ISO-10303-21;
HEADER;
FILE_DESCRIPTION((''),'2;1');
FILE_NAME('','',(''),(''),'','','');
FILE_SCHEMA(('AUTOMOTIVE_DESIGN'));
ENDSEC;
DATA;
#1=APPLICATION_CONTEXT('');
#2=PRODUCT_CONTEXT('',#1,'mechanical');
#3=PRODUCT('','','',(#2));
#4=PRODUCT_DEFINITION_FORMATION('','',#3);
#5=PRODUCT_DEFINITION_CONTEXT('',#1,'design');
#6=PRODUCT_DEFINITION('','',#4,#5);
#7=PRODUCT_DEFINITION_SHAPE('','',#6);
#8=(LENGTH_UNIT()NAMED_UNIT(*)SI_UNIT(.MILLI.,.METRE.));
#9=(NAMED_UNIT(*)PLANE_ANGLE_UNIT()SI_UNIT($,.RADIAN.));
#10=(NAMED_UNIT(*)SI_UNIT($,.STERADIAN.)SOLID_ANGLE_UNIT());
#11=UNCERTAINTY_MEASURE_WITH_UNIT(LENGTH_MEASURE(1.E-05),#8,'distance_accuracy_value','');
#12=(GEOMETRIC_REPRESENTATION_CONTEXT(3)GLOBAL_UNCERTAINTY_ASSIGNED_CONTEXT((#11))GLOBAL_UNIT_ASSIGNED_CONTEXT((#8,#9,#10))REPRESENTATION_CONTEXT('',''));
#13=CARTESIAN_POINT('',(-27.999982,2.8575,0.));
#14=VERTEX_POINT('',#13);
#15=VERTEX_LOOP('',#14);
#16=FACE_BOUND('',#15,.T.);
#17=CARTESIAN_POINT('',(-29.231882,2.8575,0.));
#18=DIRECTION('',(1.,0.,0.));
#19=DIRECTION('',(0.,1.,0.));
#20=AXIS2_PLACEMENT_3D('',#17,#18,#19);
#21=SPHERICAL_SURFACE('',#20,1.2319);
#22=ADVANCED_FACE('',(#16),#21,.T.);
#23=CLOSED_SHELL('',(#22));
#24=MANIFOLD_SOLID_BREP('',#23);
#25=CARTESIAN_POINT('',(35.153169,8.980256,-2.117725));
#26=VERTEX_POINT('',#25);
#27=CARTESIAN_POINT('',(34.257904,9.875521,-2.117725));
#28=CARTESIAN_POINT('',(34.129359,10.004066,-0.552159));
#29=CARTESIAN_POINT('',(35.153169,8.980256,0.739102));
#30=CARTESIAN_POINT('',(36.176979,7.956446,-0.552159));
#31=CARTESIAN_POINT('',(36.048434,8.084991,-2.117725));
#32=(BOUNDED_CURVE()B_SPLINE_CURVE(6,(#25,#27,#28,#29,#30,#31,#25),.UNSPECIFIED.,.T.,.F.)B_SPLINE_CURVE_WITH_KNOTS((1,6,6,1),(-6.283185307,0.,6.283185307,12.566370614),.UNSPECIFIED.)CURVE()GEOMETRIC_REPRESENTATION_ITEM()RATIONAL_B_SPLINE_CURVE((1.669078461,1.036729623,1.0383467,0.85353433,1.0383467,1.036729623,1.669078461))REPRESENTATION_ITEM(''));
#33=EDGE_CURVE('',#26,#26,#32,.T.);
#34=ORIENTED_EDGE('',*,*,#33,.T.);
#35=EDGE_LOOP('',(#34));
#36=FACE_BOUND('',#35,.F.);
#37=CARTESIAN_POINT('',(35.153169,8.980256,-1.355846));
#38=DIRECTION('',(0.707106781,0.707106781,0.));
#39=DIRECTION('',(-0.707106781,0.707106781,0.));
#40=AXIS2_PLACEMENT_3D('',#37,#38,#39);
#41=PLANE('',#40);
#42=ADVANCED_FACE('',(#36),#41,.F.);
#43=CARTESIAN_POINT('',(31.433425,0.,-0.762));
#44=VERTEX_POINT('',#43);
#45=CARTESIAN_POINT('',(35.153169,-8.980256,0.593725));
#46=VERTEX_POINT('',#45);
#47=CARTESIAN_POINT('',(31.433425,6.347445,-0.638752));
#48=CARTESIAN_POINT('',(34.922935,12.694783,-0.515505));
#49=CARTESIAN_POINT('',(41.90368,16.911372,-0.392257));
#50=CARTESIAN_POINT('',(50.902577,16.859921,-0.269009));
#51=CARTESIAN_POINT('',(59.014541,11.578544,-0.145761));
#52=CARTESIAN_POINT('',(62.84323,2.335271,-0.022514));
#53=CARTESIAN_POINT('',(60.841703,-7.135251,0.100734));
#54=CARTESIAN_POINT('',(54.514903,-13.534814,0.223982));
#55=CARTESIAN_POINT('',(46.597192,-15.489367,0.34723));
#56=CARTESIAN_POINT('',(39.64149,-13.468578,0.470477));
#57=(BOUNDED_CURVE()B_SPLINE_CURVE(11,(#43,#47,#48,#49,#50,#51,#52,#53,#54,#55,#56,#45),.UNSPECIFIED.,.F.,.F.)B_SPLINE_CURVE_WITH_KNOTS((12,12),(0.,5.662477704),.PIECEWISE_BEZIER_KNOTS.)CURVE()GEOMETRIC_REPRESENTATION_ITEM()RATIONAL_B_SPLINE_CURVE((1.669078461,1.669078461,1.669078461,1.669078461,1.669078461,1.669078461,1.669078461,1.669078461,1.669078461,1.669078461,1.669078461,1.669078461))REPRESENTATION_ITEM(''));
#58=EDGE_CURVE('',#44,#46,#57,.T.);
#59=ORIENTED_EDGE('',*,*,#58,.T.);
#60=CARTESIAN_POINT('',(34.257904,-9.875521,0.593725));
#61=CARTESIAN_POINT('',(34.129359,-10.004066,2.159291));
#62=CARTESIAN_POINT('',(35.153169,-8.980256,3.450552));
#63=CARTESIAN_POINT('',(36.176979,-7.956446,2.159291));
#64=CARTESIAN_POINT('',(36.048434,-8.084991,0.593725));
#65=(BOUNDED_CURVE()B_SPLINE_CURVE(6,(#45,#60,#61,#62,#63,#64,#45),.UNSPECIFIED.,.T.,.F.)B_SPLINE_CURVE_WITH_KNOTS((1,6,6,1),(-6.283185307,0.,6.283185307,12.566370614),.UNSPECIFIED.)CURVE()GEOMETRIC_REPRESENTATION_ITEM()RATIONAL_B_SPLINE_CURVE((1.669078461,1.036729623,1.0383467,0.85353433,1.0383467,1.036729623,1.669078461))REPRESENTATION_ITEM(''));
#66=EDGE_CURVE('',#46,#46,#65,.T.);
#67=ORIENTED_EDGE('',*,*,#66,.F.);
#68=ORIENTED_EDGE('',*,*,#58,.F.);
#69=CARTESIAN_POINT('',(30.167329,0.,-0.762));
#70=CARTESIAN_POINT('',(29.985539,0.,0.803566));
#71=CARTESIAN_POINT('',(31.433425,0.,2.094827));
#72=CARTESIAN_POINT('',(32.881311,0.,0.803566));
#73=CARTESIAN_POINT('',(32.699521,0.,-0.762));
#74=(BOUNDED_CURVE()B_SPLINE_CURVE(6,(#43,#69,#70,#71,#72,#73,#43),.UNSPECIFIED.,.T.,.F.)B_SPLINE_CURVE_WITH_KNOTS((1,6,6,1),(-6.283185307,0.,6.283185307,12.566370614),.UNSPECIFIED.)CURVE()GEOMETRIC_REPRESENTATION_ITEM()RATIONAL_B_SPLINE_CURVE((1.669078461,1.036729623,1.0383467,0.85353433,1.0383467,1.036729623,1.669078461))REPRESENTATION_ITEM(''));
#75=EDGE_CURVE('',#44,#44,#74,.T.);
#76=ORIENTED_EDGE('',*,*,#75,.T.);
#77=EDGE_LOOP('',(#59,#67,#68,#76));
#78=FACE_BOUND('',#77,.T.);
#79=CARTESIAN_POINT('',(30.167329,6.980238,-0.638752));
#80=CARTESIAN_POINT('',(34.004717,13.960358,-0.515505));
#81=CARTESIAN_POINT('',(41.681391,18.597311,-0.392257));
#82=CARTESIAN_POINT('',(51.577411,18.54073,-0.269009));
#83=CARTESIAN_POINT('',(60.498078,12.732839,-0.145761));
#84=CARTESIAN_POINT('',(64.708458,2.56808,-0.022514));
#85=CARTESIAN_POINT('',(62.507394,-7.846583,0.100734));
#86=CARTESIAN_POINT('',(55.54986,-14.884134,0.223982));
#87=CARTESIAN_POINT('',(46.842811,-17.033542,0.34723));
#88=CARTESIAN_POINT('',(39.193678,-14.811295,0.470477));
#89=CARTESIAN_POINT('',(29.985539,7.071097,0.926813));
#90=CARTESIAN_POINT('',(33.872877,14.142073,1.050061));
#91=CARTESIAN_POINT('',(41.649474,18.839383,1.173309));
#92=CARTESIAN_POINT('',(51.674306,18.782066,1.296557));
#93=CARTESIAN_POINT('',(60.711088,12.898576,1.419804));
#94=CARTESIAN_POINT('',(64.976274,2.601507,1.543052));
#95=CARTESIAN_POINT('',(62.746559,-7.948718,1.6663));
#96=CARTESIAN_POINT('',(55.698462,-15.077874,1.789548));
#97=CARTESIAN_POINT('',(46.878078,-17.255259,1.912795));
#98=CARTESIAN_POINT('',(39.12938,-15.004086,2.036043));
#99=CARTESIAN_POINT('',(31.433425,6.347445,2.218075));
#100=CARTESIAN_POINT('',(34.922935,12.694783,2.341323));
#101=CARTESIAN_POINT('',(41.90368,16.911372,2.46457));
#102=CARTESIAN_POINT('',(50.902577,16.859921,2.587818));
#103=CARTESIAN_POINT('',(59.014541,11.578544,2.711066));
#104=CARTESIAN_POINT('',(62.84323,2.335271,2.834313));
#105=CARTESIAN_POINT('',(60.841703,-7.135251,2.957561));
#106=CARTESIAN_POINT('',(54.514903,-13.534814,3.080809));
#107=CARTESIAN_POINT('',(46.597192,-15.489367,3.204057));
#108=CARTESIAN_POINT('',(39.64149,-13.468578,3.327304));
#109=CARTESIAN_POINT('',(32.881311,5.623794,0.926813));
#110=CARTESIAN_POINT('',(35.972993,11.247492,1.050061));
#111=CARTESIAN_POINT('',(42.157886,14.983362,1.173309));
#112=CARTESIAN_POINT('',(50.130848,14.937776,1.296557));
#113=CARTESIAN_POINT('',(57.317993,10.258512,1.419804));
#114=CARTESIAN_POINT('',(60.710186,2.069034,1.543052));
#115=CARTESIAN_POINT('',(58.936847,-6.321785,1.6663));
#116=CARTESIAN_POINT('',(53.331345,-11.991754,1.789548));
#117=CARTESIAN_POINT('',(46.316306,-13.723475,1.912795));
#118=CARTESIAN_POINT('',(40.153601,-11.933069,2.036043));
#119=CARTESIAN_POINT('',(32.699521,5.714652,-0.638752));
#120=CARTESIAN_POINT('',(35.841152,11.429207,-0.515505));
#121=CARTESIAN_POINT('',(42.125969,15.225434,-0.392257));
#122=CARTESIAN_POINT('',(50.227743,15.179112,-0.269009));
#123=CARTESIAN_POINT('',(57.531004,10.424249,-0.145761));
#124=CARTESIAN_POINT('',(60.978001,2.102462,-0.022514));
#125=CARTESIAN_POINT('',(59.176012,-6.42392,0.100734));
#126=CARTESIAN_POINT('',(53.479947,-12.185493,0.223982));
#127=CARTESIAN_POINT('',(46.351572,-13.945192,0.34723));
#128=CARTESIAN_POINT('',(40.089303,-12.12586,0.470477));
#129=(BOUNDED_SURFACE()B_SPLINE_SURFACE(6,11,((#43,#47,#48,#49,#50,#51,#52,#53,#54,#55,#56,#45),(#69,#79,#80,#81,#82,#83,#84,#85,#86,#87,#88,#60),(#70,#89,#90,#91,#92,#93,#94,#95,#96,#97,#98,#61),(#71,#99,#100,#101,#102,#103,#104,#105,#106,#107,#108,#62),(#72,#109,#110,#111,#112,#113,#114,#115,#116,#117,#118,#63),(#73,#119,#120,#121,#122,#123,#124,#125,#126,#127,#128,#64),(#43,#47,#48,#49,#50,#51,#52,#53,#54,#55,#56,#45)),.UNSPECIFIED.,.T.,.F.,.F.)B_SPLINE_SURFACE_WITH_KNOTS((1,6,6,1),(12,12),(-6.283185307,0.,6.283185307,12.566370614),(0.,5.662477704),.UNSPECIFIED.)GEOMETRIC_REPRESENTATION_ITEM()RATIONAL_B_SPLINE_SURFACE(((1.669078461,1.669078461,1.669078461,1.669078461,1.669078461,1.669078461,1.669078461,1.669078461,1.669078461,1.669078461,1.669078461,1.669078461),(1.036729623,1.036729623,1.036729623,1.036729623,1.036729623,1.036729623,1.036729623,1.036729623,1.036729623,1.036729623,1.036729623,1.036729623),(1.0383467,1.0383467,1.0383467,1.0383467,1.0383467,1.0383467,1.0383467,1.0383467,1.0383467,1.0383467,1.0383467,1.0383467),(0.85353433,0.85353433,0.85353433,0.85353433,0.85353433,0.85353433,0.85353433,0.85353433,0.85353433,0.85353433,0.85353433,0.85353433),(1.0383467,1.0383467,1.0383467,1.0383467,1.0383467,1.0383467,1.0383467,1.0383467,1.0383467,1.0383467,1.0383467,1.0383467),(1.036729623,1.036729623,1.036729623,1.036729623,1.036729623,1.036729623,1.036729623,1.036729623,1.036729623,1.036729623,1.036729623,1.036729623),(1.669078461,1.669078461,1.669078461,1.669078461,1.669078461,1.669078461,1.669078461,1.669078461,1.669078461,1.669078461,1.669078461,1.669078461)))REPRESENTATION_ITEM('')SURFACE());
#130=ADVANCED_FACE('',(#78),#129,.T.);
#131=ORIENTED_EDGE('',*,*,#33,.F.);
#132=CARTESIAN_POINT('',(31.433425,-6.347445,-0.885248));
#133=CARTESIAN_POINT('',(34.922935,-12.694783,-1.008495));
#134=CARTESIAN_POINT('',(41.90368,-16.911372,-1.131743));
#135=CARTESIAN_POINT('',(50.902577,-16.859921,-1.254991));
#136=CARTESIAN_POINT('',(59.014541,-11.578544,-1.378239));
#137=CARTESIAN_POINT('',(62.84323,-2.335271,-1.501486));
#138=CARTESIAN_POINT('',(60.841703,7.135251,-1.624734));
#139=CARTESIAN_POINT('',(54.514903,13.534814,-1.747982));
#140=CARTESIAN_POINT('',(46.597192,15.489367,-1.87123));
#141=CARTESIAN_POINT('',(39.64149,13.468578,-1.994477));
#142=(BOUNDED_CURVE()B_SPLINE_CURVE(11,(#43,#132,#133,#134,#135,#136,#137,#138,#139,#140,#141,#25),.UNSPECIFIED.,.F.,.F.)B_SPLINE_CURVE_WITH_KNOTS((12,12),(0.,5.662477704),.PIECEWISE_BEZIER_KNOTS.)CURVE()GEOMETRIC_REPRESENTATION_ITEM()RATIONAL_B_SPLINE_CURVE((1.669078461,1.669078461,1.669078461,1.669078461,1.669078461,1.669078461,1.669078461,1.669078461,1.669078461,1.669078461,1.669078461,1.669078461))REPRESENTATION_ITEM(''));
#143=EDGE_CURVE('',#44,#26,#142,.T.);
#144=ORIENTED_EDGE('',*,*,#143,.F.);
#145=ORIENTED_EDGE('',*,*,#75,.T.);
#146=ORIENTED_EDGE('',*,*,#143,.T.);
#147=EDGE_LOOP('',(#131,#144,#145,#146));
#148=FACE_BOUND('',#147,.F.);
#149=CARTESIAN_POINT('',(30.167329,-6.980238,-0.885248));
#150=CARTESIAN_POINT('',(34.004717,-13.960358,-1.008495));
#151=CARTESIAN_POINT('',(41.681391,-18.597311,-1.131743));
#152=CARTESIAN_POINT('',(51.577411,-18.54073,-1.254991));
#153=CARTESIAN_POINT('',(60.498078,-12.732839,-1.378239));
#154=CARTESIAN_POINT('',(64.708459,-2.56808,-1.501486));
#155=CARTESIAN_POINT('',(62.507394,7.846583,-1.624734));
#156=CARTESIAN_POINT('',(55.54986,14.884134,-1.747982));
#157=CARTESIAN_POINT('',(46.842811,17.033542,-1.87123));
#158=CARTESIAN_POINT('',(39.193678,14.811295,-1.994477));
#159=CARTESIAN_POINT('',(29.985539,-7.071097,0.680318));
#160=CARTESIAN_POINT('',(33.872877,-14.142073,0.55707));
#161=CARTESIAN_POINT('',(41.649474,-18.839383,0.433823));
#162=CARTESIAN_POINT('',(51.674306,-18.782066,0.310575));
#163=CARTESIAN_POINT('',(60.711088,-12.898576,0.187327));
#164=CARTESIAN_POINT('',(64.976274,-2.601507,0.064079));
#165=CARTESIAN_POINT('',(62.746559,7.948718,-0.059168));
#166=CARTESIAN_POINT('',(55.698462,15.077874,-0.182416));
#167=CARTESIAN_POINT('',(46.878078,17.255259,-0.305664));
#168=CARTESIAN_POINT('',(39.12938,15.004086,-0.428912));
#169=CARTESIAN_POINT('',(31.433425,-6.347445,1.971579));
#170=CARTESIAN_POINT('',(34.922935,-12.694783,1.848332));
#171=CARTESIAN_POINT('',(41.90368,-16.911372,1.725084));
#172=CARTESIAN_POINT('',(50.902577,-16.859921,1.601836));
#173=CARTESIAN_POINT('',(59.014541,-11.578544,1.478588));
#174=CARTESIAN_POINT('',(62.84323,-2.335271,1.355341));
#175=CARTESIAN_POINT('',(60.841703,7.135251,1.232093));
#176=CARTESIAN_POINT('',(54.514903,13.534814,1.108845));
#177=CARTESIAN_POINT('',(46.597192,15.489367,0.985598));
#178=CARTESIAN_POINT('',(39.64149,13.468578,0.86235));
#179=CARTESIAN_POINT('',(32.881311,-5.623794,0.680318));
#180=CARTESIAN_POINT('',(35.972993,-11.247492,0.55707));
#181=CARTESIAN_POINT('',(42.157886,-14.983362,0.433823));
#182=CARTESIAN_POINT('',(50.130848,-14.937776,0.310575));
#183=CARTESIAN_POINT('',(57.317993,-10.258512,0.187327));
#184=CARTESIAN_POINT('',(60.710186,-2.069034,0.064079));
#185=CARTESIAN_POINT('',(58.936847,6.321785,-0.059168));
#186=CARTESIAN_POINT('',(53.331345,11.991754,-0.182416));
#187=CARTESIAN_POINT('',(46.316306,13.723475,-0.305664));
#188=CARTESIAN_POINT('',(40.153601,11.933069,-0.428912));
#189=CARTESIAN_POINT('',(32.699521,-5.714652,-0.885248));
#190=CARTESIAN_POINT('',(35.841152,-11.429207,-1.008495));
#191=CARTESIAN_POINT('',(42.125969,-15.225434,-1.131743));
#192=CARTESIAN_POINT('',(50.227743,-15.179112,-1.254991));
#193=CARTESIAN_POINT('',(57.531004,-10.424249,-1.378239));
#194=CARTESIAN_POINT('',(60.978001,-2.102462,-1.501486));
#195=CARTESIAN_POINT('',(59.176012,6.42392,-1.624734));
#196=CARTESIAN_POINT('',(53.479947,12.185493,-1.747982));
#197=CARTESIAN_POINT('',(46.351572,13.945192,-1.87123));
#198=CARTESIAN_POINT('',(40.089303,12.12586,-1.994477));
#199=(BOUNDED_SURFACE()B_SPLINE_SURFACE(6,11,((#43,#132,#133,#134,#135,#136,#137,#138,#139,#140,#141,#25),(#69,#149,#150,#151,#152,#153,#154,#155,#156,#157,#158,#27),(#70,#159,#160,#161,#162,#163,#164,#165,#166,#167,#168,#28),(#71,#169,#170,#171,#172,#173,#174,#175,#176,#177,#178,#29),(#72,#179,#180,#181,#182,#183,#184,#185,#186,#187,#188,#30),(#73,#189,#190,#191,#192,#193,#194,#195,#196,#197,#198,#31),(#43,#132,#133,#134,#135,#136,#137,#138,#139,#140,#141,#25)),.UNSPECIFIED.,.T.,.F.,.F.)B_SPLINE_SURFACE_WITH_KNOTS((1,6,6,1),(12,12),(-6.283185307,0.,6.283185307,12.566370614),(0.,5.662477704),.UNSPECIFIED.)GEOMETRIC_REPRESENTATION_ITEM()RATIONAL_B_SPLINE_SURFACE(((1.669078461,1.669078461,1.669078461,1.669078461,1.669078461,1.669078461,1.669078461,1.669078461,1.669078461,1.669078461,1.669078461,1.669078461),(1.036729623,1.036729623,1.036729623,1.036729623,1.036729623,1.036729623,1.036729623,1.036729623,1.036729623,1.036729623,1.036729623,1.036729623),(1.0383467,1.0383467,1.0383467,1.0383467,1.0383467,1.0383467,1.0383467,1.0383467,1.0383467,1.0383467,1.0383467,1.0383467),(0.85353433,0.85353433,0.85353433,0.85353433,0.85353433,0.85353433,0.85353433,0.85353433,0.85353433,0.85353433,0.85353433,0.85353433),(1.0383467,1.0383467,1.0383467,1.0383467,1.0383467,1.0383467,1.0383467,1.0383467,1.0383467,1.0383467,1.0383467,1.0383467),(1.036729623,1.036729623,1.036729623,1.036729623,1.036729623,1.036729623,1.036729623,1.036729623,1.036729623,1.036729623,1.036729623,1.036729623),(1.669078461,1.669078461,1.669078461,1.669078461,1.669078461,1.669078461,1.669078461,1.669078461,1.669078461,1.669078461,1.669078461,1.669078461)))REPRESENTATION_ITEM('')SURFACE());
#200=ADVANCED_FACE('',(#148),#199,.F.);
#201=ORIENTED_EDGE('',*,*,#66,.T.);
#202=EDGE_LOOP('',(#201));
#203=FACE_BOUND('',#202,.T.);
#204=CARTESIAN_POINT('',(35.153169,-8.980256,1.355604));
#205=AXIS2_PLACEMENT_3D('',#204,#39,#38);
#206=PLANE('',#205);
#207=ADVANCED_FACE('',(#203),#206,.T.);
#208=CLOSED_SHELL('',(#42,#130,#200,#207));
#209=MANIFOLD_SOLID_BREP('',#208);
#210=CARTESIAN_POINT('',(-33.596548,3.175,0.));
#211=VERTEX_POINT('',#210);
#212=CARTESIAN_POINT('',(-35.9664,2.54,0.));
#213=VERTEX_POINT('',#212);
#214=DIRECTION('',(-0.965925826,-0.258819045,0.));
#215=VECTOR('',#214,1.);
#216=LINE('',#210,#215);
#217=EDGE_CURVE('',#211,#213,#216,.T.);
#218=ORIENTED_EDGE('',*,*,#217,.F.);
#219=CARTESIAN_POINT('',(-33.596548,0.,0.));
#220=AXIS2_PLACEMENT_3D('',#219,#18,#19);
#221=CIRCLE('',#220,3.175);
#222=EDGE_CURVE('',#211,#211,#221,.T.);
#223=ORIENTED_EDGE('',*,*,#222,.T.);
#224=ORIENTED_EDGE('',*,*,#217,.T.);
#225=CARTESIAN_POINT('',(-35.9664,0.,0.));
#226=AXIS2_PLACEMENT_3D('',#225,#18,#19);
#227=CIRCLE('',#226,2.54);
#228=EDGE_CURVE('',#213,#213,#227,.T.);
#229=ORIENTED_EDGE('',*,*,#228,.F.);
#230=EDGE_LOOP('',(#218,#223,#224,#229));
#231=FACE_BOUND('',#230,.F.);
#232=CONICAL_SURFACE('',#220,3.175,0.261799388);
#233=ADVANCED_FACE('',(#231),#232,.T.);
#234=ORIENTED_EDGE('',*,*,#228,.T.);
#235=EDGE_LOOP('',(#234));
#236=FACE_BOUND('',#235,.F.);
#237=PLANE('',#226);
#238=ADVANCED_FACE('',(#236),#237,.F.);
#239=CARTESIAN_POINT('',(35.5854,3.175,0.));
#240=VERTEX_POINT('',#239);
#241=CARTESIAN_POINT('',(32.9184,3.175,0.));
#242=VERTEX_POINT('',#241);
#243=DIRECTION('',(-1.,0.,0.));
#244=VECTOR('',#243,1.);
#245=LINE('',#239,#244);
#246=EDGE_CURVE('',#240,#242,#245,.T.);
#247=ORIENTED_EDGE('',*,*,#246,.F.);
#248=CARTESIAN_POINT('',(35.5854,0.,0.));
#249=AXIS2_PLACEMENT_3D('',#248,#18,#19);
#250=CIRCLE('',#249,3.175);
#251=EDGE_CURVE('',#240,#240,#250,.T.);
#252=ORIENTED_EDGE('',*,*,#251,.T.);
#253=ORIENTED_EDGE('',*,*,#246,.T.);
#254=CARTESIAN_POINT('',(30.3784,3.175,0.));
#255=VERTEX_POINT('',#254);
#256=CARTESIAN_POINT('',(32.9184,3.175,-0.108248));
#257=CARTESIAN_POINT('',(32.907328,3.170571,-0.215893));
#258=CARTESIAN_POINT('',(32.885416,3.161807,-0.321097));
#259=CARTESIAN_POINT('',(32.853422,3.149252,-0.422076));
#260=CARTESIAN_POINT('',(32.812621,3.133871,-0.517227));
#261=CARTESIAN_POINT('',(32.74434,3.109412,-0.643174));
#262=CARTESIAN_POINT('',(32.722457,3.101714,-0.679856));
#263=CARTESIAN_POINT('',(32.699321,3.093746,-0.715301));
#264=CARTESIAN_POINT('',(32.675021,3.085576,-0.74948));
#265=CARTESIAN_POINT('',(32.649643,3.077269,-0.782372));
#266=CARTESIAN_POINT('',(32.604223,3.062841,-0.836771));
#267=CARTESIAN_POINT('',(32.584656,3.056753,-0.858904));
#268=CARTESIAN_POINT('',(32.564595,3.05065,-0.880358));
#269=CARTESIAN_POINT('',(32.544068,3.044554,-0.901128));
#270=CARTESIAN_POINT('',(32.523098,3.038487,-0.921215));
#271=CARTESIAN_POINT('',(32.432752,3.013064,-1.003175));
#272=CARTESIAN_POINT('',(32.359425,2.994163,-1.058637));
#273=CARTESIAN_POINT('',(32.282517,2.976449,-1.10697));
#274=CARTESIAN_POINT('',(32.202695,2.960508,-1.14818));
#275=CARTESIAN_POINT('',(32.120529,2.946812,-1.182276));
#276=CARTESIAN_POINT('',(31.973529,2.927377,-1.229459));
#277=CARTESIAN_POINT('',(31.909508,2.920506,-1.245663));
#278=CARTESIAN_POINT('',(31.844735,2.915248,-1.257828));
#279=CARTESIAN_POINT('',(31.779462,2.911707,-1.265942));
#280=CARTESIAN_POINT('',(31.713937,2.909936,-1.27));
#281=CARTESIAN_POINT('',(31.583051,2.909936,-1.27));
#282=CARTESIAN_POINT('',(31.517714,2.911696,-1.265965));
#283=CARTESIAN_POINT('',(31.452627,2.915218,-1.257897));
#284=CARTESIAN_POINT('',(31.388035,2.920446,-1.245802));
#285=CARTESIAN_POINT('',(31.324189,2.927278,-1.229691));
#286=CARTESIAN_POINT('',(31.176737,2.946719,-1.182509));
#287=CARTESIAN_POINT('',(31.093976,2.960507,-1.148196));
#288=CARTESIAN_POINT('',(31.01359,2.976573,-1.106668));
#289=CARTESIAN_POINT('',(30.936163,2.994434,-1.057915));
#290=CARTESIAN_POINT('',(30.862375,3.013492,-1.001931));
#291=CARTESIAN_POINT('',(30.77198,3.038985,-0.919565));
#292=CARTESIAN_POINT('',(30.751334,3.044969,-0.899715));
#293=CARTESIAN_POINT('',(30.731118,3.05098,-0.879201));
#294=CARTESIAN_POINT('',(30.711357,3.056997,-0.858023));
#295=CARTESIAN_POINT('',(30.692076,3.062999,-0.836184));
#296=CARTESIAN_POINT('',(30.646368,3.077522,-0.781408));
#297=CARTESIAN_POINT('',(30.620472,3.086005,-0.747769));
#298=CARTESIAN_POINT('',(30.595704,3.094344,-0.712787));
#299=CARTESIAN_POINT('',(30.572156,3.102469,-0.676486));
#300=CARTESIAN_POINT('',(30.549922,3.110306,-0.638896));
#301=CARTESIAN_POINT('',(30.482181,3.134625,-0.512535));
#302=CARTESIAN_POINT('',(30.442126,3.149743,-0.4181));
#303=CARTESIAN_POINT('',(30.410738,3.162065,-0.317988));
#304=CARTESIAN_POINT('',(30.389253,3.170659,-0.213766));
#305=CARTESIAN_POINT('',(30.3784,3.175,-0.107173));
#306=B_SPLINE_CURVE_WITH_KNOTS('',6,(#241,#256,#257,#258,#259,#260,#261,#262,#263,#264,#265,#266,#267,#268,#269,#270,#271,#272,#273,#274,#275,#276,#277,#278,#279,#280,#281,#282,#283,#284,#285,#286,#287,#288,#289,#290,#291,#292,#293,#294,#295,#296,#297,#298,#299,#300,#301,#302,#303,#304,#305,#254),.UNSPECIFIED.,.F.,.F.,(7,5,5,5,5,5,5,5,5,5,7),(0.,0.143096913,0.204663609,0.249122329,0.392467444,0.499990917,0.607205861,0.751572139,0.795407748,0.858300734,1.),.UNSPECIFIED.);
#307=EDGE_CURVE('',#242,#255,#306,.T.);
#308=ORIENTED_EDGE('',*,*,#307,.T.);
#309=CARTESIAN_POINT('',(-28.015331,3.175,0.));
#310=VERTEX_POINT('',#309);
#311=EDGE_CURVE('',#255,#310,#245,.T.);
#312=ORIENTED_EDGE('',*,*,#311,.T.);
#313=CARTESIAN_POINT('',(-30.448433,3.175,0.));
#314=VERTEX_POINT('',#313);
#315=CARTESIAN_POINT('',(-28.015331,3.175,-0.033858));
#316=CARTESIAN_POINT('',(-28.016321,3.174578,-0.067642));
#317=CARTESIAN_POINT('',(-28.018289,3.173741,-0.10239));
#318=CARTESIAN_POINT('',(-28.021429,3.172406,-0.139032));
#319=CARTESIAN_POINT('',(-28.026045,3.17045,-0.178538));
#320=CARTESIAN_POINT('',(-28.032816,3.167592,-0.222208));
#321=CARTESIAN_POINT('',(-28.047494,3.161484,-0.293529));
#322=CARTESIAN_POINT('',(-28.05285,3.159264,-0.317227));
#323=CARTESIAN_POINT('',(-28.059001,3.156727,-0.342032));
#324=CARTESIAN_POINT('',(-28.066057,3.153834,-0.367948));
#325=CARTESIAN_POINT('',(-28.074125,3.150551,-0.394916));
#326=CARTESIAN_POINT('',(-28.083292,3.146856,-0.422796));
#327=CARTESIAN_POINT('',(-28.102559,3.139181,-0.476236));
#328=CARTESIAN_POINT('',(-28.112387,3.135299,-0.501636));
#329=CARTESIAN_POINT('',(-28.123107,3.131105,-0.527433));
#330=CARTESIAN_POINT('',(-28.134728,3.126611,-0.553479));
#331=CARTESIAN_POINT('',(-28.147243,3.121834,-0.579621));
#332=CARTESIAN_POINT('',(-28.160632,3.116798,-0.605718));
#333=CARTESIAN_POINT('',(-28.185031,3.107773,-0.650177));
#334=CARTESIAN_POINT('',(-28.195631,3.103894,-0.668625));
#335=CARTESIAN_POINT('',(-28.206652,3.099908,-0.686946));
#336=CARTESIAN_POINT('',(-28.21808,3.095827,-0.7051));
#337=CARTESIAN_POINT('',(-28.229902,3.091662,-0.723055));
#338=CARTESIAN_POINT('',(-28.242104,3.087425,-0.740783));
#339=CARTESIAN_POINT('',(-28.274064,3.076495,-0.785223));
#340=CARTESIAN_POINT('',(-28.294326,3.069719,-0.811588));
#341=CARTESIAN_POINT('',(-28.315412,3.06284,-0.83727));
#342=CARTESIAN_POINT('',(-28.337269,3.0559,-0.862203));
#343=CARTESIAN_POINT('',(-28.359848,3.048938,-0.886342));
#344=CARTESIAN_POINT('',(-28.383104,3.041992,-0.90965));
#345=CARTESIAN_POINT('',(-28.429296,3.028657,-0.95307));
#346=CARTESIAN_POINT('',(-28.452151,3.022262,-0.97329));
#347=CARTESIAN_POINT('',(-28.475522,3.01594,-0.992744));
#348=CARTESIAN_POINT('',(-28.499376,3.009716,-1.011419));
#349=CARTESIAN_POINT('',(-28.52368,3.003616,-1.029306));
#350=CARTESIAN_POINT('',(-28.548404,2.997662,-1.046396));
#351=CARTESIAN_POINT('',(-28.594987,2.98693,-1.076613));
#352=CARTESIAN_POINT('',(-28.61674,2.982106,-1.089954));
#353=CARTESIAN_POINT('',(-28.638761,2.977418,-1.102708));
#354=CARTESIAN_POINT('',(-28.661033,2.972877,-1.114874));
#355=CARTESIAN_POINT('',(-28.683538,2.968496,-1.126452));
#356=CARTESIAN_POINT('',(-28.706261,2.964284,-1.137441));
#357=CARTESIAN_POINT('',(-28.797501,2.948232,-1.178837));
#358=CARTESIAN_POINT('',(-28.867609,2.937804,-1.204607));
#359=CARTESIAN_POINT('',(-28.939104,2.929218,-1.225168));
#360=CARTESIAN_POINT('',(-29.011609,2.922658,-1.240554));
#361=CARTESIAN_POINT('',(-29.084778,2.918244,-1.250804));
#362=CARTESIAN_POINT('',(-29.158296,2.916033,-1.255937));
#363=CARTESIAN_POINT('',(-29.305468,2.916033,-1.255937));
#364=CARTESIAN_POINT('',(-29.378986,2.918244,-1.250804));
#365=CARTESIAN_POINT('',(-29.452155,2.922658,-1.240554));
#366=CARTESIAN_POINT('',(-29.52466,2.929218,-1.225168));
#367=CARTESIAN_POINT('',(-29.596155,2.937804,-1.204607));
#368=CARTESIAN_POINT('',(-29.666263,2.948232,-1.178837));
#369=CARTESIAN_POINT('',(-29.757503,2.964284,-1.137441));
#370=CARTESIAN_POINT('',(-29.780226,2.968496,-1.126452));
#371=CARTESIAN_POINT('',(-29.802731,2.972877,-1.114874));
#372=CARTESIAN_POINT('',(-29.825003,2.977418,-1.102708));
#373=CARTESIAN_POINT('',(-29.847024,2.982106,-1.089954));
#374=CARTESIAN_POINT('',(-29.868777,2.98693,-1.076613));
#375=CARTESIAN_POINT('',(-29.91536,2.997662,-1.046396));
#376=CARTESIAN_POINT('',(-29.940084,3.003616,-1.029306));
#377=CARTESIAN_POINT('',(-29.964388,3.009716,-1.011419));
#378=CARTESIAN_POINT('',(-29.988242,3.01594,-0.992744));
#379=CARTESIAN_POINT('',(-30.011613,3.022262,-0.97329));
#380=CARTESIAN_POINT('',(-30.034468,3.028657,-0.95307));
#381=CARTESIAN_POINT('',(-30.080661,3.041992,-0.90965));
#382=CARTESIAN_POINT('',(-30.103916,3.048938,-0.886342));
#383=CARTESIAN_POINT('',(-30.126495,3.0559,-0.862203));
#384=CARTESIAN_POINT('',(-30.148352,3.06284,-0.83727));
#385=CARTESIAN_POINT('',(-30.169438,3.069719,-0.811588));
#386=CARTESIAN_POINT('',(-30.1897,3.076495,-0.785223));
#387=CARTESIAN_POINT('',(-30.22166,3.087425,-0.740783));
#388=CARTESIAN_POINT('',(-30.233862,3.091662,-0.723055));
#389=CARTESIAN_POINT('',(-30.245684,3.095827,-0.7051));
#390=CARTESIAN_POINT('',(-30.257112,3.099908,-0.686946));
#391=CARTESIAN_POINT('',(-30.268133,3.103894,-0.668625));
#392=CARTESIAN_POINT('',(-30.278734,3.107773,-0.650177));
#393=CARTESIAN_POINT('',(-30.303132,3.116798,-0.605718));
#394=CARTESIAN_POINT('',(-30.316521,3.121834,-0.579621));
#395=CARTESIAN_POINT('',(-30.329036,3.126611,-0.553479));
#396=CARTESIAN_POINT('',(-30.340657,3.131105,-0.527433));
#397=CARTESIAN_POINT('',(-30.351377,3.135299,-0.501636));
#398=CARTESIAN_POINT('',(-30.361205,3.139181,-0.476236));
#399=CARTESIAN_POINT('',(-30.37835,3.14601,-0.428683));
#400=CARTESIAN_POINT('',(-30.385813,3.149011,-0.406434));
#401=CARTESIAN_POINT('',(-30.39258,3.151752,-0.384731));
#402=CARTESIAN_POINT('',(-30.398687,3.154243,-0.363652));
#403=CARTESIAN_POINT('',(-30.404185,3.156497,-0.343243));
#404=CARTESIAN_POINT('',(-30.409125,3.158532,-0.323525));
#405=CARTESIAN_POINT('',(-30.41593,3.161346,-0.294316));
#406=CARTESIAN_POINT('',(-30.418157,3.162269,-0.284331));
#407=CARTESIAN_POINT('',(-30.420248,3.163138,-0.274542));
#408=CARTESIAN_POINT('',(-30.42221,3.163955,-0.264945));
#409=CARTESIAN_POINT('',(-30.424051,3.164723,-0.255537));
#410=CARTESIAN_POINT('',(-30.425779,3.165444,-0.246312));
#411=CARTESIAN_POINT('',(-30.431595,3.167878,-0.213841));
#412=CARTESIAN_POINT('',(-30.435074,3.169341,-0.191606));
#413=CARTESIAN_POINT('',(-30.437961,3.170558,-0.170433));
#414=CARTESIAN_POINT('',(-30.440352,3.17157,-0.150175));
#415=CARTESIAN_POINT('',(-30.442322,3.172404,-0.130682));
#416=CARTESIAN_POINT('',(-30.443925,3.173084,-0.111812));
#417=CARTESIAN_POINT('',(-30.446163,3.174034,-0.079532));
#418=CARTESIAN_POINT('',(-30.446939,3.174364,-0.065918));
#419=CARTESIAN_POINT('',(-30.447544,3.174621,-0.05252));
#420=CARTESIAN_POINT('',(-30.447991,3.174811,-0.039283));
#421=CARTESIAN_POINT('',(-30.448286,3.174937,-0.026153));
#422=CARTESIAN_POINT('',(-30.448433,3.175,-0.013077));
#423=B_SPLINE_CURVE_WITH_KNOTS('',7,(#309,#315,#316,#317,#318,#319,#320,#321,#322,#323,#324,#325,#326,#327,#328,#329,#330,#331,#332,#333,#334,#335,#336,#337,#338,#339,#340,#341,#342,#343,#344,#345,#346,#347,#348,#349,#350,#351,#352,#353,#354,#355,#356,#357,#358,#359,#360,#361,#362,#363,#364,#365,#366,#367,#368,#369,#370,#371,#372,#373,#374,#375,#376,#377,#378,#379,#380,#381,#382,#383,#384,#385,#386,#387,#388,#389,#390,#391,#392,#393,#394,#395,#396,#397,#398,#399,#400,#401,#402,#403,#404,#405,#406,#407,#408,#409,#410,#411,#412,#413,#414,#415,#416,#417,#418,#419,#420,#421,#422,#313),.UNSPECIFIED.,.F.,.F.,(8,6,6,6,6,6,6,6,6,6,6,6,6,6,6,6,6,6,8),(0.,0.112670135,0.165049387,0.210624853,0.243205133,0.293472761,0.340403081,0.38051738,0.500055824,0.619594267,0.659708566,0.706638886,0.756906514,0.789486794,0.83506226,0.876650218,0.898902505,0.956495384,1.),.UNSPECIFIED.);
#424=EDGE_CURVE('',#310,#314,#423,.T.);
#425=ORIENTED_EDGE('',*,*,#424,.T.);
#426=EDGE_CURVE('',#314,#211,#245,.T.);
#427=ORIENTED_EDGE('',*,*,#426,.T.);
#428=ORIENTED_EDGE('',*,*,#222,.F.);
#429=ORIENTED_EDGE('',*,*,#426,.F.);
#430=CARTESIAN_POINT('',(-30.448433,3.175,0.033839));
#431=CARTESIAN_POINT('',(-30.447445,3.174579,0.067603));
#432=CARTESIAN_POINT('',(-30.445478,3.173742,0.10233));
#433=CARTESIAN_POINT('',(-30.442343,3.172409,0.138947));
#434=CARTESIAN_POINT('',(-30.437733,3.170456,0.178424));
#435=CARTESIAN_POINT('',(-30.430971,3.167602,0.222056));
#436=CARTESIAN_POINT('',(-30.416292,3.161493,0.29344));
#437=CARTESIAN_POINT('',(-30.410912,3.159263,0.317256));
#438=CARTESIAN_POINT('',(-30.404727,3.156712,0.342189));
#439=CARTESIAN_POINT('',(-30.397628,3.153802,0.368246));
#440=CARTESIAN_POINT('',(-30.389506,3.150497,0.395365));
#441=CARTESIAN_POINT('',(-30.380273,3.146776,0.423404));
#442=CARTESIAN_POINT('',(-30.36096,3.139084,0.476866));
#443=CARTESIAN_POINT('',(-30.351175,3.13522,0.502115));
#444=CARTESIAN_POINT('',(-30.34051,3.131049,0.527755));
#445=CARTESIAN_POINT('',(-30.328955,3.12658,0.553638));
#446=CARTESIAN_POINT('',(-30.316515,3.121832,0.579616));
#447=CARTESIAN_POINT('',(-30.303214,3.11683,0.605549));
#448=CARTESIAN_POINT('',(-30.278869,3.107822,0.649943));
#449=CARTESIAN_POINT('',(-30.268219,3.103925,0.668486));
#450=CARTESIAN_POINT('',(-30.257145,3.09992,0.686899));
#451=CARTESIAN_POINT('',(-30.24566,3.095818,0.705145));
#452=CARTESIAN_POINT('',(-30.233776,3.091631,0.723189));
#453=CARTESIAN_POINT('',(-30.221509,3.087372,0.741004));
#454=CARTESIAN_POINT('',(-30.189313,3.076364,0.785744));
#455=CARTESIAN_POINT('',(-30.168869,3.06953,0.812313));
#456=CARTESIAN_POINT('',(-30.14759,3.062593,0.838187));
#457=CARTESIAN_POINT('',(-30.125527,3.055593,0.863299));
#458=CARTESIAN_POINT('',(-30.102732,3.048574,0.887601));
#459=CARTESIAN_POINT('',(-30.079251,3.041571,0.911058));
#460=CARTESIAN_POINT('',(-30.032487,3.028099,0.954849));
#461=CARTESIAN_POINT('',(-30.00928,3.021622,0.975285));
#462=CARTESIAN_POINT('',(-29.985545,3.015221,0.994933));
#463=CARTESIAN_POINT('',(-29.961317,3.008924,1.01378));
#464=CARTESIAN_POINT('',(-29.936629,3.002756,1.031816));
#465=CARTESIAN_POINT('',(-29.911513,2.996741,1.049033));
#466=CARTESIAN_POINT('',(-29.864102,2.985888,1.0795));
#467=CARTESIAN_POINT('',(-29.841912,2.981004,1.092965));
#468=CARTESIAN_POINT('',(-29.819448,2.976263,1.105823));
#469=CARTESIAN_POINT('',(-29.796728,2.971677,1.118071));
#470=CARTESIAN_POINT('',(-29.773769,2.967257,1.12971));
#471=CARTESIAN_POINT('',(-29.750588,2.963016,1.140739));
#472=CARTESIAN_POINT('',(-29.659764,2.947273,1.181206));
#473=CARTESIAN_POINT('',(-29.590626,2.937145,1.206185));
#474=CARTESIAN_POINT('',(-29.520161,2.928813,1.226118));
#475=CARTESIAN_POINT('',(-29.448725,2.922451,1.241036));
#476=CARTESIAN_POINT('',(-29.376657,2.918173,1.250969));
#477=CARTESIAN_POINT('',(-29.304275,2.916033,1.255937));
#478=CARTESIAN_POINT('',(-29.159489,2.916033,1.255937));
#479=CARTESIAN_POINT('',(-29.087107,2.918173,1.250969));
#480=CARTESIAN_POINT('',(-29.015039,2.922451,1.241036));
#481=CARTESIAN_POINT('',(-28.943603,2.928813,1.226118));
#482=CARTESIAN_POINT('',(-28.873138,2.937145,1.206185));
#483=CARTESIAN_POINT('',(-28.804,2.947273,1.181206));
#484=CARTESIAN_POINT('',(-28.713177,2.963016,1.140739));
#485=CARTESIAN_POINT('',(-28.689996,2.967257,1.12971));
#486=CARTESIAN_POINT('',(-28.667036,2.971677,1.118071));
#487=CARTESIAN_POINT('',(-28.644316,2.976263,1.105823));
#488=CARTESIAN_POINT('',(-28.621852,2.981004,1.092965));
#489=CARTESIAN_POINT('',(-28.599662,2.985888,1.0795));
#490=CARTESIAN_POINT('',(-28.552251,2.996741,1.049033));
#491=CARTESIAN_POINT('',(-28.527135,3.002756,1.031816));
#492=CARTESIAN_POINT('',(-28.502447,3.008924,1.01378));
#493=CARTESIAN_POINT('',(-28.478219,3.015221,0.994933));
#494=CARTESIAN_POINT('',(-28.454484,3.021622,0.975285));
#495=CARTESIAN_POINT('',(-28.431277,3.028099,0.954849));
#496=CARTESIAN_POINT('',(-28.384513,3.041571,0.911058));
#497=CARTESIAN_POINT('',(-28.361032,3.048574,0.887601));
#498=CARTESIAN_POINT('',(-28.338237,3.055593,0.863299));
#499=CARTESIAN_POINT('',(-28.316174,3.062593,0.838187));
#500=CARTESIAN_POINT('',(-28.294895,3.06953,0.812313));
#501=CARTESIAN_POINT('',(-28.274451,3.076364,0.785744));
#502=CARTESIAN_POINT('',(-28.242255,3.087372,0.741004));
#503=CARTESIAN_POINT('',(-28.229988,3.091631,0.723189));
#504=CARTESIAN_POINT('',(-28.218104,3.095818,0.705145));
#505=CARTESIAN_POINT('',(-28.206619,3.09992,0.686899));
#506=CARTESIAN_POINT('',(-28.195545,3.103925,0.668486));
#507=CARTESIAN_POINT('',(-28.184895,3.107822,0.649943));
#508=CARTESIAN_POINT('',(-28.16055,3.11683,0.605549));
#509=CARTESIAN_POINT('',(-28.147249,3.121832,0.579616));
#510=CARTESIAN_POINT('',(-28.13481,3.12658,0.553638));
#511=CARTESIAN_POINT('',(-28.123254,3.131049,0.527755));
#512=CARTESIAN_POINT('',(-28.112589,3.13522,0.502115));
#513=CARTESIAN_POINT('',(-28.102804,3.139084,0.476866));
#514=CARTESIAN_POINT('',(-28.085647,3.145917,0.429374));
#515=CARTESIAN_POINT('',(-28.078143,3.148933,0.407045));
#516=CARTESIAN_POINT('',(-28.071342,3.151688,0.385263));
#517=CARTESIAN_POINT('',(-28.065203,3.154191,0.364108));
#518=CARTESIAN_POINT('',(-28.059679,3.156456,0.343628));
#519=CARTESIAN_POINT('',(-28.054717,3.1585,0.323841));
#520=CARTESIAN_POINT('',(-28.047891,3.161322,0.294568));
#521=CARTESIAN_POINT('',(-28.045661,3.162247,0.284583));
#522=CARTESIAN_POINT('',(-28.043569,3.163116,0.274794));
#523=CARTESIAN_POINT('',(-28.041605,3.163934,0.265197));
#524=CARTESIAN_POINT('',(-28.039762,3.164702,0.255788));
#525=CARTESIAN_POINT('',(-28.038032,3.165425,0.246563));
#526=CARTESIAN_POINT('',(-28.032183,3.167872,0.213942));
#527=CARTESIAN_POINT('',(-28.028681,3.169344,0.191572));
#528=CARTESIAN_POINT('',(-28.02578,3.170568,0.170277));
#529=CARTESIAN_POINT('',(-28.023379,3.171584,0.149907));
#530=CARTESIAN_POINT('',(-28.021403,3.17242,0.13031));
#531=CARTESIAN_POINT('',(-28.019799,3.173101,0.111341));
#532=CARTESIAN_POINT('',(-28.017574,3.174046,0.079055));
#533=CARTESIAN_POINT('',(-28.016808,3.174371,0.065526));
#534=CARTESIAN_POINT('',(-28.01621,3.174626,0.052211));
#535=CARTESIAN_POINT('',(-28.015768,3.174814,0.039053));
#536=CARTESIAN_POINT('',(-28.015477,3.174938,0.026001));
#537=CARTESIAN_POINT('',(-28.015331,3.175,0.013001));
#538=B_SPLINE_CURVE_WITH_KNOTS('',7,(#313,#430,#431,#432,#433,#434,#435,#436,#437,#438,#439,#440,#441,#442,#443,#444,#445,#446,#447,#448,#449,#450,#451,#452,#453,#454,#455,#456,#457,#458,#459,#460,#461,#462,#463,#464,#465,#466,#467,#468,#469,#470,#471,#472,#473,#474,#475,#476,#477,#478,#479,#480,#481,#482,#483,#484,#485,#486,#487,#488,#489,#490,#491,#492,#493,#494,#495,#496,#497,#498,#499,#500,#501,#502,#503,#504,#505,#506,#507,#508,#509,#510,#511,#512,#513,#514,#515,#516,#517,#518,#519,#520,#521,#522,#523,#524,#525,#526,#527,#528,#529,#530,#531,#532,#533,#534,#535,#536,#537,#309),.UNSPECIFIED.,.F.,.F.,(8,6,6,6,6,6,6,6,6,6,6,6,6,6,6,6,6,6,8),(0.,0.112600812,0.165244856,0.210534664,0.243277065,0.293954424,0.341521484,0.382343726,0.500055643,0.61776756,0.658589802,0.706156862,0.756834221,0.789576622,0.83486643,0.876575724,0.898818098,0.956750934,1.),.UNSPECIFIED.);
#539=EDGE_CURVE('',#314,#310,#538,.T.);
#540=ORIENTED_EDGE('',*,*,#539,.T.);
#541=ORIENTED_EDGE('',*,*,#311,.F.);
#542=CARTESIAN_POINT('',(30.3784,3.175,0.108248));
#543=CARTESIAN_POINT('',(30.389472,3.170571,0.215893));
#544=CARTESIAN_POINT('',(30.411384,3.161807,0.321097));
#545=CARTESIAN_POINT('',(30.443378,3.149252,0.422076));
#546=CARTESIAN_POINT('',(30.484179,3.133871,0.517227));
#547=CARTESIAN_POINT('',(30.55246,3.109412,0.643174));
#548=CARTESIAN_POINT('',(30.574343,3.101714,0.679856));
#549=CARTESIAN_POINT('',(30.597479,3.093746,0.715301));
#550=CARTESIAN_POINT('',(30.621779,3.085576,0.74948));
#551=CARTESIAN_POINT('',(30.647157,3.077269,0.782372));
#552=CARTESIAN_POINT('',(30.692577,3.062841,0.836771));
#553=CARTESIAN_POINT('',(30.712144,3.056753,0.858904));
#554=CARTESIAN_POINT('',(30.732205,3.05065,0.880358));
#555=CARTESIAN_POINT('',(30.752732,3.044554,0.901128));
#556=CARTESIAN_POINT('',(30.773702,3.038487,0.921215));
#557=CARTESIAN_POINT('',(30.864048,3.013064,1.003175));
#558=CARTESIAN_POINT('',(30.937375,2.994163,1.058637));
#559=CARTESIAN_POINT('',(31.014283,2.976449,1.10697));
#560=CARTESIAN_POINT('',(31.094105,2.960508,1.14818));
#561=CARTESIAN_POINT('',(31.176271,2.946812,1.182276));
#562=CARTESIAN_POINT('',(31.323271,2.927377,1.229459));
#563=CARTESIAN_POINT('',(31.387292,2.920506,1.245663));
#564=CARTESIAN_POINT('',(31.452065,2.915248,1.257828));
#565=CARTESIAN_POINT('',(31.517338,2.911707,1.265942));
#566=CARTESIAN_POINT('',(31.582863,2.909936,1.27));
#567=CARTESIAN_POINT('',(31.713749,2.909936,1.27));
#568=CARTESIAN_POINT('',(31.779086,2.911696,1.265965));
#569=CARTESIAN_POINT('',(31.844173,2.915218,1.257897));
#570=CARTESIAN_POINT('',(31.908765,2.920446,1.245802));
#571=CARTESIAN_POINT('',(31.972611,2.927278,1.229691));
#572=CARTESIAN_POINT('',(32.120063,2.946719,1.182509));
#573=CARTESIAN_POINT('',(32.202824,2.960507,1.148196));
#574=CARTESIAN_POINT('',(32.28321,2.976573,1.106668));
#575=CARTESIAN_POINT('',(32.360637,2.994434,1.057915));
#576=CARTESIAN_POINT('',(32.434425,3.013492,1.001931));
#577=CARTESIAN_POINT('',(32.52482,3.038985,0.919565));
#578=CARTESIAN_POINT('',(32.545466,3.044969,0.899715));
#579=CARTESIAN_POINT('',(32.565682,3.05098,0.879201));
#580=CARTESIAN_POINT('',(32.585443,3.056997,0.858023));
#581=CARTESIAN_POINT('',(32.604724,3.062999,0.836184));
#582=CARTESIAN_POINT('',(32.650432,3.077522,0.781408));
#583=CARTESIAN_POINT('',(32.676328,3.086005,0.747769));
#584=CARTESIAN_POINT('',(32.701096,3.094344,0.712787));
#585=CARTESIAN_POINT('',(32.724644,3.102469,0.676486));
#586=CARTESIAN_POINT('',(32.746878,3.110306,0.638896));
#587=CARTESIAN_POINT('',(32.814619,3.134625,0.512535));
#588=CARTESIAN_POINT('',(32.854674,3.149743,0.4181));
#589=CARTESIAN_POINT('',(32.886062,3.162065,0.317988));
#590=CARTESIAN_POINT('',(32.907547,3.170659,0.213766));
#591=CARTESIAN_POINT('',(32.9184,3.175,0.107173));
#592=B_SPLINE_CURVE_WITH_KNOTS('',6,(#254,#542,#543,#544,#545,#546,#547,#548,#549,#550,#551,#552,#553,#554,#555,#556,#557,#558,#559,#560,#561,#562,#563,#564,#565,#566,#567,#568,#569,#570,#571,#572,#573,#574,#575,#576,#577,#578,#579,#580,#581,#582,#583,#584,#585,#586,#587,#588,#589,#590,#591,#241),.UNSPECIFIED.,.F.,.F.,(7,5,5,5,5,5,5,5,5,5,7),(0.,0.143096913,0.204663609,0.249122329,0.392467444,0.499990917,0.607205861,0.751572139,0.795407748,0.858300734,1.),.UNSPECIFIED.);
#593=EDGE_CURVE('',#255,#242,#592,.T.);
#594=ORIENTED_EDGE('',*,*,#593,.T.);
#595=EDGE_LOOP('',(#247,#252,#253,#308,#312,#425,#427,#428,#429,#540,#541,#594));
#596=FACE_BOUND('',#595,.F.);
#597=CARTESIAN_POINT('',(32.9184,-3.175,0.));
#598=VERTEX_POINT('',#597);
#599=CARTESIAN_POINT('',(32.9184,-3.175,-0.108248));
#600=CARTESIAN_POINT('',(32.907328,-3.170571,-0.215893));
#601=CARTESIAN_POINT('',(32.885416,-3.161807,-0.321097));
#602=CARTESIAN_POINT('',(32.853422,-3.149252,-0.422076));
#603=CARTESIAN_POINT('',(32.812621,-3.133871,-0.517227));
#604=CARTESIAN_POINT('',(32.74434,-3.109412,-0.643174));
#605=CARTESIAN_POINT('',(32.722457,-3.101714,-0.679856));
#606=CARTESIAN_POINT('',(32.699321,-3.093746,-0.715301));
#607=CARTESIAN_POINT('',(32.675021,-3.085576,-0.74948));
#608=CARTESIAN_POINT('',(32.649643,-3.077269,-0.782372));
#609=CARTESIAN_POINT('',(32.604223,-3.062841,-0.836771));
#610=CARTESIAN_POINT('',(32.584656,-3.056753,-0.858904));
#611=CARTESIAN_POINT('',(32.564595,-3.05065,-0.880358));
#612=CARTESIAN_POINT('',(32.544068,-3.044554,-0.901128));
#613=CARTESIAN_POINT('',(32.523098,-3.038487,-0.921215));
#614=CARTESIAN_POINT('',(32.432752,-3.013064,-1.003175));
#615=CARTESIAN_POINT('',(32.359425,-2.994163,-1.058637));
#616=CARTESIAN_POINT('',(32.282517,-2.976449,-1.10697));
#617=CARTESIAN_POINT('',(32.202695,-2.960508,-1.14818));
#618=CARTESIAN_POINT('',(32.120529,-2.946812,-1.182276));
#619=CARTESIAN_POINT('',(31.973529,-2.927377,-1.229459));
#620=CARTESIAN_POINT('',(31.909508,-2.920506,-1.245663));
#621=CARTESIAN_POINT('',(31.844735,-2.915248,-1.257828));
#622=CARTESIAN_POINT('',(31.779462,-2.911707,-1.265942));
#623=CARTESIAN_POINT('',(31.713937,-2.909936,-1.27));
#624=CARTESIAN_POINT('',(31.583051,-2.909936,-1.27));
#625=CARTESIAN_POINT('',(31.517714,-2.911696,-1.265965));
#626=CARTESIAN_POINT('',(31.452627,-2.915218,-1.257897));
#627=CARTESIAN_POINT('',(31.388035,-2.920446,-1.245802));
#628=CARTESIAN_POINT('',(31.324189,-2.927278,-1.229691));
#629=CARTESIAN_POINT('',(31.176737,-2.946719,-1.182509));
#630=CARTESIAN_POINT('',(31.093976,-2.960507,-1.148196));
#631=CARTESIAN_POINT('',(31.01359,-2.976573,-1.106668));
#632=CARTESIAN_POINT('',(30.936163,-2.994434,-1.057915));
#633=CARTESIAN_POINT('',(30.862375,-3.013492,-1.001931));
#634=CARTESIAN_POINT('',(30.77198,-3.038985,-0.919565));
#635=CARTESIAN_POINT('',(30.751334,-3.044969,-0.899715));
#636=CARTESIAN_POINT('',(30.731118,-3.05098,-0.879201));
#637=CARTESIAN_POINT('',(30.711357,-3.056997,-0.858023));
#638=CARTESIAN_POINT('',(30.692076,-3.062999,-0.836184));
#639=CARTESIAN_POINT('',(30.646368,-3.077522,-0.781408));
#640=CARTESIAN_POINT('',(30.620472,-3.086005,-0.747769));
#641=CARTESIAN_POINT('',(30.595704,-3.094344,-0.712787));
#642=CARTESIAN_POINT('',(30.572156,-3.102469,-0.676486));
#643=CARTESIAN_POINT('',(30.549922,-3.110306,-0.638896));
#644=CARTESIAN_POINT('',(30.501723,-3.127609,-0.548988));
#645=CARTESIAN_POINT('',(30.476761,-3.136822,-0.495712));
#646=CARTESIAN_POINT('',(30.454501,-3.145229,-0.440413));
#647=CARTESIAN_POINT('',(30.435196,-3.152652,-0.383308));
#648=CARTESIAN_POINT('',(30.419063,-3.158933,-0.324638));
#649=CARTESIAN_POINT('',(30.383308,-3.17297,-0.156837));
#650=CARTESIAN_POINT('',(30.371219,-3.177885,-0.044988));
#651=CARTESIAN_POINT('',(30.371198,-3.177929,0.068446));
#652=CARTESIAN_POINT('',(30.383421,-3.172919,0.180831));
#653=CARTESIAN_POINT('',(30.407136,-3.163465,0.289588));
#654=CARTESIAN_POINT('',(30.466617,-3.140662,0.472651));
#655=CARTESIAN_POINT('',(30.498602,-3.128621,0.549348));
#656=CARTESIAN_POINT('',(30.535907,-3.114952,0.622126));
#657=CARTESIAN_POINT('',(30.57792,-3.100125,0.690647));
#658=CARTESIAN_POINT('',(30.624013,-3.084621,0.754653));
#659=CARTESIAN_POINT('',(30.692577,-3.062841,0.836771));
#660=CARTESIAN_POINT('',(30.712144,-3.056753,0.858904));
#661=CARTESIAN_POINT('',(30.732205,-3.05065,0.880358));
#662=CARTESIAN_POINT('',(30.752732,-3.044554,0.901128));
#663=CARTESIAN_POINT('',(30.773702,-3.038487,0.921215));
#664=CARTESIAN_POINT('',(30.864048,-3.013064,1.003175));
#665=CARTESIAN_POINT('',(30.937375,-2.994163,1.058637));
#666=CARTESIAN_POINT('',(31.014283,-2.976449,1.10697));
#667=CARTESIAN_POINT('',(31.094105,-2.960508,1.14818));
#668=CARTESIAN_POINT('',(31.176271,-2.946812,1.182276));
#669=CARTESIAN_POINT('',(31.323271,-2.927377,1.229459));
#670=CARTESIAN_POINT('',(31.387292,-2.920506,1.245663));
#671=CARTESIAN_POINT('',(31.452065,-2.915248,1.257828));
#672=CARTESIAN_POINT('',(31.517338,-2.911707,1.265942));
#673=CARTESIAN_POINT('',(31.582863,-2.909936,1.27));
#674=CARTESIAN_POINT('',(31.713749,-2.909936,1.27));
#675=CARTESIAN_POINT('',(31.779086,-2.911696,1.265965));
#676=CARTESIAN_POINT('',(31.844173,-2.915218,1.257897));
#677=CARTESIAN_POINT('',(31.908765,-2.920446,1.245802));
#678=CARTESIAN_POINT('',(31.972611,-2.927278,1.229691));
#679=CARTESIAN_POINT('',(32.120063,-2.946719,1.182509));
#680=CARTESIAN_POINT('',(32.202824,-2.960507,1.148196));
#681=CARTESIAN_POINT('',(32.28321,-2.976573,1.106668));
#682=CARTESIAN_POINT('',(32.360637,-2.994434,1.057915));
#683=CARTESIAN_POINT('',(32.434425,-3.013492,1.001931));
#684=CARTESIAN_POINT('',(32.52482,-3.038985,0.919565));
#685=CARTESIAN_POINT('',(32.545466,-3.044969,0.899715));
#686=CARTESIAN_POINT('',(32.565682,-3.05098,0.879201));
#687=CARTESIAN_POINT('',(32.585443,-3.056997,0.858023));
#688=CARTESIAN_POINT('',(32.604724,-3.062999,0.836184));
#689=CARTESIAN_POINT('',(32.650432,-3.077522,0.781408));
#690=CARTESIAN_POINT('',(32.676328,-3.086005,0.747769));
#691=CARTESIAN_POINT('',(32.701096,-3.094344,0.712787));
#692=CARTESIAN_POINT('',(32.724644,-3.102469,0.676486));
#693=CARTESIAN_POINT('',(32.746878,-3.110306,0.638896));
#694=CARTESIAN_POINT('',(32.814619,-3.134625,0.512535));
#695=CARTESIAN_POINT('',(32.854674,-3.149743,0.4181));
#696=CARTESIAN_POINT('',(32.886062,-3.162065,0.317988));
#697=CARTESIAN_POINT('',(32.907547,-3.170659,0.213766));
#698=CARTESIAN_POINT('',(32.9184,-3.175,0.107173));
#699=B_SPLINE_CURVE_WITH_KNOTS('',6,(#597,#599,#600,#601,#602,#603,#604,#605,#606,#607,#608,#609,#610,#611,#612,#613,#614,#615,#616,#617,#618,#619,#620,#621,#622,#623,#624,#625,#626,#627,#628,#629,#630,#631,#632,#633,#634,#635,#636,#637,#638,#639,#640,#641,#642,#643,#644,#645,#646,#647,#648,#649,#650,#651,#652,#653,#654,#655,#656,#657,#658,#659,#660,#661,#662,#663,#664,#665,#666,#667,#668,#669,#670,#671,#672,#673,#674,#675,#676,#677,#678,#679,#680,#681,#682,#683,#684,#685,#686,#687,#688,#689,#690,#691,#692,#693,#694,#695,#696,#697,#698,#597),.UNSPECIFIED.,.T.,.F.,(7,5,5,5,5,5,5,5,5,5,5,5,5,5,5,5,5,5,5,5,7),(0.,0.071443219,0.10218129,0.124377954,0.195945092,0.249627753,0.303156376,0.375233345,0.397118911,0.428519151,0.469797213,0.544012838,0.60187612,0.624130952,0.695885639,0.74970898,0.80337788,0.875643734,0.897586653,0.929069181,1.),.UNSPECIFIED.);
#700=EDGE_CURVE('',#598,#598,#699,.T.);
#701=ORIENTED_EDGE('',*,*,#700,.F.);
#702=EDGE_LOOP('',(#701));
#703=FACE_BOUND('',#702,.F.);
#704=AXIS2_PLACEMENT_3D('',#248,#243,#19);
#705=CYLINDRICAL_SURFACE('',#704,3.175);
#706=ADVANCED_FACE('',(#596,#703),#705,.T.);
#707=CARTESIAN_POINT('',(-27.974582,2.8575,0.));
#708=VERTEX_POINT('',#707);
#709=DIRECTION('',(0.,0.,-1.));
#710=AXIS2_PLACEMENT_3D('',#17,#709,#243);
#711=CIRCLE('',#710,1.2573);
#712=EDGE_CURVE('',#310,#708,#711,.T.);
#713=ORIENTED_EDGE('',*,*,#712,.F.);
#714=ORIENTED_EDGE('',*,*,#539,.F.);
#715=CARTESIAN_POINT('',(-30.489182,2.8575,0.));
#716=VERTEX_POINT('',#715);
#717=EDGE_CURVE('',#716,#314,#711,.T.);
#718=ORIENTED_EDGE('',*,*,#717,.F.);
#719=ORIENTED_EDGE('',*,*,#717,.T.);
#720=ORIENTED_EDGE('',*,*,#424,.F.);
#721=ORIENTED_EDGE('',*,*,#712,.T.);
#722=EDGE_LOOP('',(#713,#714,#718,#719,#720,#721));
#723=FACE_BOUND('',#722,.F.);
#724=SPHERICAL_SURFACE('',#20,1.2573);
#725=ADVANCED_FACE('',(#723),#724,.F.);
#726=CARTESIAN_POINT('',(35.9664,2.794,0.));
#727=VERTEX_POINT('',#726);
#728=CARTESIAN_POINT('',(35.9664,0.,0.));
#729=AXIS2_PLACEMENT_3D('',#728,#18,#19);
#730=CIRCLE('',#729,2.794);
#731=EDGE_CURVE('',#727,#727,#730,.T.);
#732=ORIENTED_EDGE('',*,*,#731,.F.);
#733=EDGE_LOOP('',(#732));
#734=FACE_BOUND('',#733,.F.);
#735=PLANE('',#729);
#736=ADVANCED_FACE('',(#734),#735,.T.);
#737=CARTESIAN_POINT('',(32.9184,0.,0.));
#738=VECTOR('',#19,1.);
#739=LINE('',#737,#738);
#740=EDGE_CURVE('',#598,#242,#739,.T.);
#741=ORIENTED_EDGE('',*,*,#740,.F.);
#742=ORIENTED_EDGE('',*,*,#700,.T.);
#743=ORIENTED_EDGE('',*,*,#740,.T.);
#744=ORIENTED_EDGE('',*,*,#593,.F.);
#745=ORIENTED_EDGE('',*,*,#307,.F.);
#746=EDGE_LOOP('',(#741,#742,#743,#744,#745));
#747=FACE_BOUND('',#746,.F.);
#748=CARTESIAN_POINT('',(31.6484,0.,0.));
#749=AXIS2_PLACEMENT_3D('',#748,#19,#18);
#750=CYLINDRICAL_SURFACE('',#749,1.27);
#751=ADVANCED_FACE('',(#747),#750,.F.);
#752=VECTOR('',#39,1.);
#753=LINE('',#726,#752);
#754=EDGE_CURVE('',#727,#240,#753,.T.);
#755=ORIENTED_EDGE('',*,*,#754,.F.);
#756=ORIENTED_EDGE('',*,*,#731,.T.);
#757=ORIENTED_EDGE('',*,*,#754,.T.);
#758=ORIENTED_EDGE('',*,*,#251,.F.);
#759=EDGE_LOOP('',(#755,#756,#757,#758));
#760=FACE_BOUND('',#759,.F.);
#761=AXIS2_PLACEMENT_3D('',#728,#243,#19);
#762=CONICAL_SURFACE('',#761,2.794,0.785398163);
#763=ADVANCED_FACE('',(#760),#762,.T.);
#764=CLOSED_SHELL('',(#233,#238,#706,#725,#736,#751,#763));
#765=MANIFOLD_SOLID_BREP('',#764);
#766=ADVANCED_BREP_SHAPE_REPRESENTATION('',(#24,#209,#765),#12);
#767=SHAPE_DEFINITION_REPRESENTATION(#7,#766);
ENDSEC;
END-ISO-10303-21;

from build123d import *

# Parameters (mm, degrees)
SKETCH4_W          = 1.27
SKETCH4_H          = 6.35
SWEEP1_PITCH       = 1.5494
SWEEP1_HEIGHT      = 1.355725
SWEEP1_RADIUS      = 13.462
SKETCH6_R          = 0.762
SWEEP2_PITCH       = 1.5494
SWEEP2_HEIGHT      = 1.355725
SWEEP2_RADIUS      = 13.462
SWEEP2_START_ANGLE = -180
SKETCH6_2_R        = 0.762


with BuildPart() as part:
    # Sketch1 → Revolve1 (revolve)
    with BuildSketch(Plane.XY):
        Polygon((35.9664, 2.794), (35.5854, 3.175), (-33.596547737, 3.175), (-35.9664, 2.54), (-35.9664, 0), (35.9664, 0), align=None)
    revolve(axis=Axis((35.9664, 0, 0), (1, 0, 0)))

    # Sketch2 → Cut-Revolve1 (revolve, cut)
    with BuildSketch(Plane.XY):
        with BuildLine():
            Line((-27.974582051, 2.8575), (-30.489182051, 2.8575))
            ThreePointArc((-30.489182051, 2.8575), (-29.231882051, 4.1148), (-27.974582051, 2.8575))
        make_face()
    revolve(axis=Axis((-27.974582051, 2.8575, 0), (1, 0, 0)), mode=Mode.SUBTRACT)

    # Sketch4 → Cut-Revolve2 (revolve, cut)
    with BuildSketch(Plane.XY):
        with Locations((32.2834, 0)):
            Rectangle(SKETCH4_W, SKETCH4_H)
    revolve(axis=Axis((31.6484, -3.175, 0), (0, 1, 0)), mode=Mode.SUBTRACT)


with BuildPart() as body_2:
    # Sketch3 → Revolve2 (revolve)
    with BuildSketch(Plane.XY):
        with BuildLine():
            Line((-27.999982051, 2.8575), (-30.463782051, 2.8575))
            ThreePointArc((-30.463782051, 2.8575), (-29.231882051, 4.0894), (-27.999982051, 2.8575))
        make_face()
    revolve(axis=Axis((-27.999982051, 2.8575, 0), (1, 0, 0)))


with BuildPart() as body_3:
    # Sweep1: sweep along a helix
    with BuildLine() as sweep1_path:
        Helix(SWEEP1_PITCH, SWEEP1_HEIGHT, SWEEP1_RADIUS, center=(44.133425091, 0, 0), direction=(0, 0, -1), lefthand=True)
    # Sketch6 → Sweep1 (sweep)
    with BuildSketch(Plane(origin=(114.003847968, 0, 0), x_dir=(0, 0, -1), z_dir=(0, 1, 0))):
        with Locations((0, 82.570422877)):
            Circle(SKETCH6_R)
    sweep(path=sweep1_path.line, is_frenet=True)

    # Sweep2: sweep along a helix
    with BuildLine() as sweep2_path:
        add(Helix(SWEEP2_PITCH, SWEEP2_HEIGHT, SWEEP2_RADIUS, center=(44.133425091, 0, 0), direction=(0, 0, 1), lefthand=True, mode=Mode.PRIVATE).rotate(Axis((44.133425091, 0, 0), (0, 0, 1)), SWEEP2_START_ANGLE))
    # Sketch6<2> → Sweep2 (sweep)
    with BuildSketch(Plane(origin=(114.003847968, 0, 0), x_dir=(0, 0, -1), z_dir=(0, 1, 0))):
        with Locations((0, 82.570422877)):
            Circle(SKETCH6_2_R)
    sweep(path=sweep2_path.line, is_frenet=True)


solid = Compound([part.part, body_2.part, body_3.part])
